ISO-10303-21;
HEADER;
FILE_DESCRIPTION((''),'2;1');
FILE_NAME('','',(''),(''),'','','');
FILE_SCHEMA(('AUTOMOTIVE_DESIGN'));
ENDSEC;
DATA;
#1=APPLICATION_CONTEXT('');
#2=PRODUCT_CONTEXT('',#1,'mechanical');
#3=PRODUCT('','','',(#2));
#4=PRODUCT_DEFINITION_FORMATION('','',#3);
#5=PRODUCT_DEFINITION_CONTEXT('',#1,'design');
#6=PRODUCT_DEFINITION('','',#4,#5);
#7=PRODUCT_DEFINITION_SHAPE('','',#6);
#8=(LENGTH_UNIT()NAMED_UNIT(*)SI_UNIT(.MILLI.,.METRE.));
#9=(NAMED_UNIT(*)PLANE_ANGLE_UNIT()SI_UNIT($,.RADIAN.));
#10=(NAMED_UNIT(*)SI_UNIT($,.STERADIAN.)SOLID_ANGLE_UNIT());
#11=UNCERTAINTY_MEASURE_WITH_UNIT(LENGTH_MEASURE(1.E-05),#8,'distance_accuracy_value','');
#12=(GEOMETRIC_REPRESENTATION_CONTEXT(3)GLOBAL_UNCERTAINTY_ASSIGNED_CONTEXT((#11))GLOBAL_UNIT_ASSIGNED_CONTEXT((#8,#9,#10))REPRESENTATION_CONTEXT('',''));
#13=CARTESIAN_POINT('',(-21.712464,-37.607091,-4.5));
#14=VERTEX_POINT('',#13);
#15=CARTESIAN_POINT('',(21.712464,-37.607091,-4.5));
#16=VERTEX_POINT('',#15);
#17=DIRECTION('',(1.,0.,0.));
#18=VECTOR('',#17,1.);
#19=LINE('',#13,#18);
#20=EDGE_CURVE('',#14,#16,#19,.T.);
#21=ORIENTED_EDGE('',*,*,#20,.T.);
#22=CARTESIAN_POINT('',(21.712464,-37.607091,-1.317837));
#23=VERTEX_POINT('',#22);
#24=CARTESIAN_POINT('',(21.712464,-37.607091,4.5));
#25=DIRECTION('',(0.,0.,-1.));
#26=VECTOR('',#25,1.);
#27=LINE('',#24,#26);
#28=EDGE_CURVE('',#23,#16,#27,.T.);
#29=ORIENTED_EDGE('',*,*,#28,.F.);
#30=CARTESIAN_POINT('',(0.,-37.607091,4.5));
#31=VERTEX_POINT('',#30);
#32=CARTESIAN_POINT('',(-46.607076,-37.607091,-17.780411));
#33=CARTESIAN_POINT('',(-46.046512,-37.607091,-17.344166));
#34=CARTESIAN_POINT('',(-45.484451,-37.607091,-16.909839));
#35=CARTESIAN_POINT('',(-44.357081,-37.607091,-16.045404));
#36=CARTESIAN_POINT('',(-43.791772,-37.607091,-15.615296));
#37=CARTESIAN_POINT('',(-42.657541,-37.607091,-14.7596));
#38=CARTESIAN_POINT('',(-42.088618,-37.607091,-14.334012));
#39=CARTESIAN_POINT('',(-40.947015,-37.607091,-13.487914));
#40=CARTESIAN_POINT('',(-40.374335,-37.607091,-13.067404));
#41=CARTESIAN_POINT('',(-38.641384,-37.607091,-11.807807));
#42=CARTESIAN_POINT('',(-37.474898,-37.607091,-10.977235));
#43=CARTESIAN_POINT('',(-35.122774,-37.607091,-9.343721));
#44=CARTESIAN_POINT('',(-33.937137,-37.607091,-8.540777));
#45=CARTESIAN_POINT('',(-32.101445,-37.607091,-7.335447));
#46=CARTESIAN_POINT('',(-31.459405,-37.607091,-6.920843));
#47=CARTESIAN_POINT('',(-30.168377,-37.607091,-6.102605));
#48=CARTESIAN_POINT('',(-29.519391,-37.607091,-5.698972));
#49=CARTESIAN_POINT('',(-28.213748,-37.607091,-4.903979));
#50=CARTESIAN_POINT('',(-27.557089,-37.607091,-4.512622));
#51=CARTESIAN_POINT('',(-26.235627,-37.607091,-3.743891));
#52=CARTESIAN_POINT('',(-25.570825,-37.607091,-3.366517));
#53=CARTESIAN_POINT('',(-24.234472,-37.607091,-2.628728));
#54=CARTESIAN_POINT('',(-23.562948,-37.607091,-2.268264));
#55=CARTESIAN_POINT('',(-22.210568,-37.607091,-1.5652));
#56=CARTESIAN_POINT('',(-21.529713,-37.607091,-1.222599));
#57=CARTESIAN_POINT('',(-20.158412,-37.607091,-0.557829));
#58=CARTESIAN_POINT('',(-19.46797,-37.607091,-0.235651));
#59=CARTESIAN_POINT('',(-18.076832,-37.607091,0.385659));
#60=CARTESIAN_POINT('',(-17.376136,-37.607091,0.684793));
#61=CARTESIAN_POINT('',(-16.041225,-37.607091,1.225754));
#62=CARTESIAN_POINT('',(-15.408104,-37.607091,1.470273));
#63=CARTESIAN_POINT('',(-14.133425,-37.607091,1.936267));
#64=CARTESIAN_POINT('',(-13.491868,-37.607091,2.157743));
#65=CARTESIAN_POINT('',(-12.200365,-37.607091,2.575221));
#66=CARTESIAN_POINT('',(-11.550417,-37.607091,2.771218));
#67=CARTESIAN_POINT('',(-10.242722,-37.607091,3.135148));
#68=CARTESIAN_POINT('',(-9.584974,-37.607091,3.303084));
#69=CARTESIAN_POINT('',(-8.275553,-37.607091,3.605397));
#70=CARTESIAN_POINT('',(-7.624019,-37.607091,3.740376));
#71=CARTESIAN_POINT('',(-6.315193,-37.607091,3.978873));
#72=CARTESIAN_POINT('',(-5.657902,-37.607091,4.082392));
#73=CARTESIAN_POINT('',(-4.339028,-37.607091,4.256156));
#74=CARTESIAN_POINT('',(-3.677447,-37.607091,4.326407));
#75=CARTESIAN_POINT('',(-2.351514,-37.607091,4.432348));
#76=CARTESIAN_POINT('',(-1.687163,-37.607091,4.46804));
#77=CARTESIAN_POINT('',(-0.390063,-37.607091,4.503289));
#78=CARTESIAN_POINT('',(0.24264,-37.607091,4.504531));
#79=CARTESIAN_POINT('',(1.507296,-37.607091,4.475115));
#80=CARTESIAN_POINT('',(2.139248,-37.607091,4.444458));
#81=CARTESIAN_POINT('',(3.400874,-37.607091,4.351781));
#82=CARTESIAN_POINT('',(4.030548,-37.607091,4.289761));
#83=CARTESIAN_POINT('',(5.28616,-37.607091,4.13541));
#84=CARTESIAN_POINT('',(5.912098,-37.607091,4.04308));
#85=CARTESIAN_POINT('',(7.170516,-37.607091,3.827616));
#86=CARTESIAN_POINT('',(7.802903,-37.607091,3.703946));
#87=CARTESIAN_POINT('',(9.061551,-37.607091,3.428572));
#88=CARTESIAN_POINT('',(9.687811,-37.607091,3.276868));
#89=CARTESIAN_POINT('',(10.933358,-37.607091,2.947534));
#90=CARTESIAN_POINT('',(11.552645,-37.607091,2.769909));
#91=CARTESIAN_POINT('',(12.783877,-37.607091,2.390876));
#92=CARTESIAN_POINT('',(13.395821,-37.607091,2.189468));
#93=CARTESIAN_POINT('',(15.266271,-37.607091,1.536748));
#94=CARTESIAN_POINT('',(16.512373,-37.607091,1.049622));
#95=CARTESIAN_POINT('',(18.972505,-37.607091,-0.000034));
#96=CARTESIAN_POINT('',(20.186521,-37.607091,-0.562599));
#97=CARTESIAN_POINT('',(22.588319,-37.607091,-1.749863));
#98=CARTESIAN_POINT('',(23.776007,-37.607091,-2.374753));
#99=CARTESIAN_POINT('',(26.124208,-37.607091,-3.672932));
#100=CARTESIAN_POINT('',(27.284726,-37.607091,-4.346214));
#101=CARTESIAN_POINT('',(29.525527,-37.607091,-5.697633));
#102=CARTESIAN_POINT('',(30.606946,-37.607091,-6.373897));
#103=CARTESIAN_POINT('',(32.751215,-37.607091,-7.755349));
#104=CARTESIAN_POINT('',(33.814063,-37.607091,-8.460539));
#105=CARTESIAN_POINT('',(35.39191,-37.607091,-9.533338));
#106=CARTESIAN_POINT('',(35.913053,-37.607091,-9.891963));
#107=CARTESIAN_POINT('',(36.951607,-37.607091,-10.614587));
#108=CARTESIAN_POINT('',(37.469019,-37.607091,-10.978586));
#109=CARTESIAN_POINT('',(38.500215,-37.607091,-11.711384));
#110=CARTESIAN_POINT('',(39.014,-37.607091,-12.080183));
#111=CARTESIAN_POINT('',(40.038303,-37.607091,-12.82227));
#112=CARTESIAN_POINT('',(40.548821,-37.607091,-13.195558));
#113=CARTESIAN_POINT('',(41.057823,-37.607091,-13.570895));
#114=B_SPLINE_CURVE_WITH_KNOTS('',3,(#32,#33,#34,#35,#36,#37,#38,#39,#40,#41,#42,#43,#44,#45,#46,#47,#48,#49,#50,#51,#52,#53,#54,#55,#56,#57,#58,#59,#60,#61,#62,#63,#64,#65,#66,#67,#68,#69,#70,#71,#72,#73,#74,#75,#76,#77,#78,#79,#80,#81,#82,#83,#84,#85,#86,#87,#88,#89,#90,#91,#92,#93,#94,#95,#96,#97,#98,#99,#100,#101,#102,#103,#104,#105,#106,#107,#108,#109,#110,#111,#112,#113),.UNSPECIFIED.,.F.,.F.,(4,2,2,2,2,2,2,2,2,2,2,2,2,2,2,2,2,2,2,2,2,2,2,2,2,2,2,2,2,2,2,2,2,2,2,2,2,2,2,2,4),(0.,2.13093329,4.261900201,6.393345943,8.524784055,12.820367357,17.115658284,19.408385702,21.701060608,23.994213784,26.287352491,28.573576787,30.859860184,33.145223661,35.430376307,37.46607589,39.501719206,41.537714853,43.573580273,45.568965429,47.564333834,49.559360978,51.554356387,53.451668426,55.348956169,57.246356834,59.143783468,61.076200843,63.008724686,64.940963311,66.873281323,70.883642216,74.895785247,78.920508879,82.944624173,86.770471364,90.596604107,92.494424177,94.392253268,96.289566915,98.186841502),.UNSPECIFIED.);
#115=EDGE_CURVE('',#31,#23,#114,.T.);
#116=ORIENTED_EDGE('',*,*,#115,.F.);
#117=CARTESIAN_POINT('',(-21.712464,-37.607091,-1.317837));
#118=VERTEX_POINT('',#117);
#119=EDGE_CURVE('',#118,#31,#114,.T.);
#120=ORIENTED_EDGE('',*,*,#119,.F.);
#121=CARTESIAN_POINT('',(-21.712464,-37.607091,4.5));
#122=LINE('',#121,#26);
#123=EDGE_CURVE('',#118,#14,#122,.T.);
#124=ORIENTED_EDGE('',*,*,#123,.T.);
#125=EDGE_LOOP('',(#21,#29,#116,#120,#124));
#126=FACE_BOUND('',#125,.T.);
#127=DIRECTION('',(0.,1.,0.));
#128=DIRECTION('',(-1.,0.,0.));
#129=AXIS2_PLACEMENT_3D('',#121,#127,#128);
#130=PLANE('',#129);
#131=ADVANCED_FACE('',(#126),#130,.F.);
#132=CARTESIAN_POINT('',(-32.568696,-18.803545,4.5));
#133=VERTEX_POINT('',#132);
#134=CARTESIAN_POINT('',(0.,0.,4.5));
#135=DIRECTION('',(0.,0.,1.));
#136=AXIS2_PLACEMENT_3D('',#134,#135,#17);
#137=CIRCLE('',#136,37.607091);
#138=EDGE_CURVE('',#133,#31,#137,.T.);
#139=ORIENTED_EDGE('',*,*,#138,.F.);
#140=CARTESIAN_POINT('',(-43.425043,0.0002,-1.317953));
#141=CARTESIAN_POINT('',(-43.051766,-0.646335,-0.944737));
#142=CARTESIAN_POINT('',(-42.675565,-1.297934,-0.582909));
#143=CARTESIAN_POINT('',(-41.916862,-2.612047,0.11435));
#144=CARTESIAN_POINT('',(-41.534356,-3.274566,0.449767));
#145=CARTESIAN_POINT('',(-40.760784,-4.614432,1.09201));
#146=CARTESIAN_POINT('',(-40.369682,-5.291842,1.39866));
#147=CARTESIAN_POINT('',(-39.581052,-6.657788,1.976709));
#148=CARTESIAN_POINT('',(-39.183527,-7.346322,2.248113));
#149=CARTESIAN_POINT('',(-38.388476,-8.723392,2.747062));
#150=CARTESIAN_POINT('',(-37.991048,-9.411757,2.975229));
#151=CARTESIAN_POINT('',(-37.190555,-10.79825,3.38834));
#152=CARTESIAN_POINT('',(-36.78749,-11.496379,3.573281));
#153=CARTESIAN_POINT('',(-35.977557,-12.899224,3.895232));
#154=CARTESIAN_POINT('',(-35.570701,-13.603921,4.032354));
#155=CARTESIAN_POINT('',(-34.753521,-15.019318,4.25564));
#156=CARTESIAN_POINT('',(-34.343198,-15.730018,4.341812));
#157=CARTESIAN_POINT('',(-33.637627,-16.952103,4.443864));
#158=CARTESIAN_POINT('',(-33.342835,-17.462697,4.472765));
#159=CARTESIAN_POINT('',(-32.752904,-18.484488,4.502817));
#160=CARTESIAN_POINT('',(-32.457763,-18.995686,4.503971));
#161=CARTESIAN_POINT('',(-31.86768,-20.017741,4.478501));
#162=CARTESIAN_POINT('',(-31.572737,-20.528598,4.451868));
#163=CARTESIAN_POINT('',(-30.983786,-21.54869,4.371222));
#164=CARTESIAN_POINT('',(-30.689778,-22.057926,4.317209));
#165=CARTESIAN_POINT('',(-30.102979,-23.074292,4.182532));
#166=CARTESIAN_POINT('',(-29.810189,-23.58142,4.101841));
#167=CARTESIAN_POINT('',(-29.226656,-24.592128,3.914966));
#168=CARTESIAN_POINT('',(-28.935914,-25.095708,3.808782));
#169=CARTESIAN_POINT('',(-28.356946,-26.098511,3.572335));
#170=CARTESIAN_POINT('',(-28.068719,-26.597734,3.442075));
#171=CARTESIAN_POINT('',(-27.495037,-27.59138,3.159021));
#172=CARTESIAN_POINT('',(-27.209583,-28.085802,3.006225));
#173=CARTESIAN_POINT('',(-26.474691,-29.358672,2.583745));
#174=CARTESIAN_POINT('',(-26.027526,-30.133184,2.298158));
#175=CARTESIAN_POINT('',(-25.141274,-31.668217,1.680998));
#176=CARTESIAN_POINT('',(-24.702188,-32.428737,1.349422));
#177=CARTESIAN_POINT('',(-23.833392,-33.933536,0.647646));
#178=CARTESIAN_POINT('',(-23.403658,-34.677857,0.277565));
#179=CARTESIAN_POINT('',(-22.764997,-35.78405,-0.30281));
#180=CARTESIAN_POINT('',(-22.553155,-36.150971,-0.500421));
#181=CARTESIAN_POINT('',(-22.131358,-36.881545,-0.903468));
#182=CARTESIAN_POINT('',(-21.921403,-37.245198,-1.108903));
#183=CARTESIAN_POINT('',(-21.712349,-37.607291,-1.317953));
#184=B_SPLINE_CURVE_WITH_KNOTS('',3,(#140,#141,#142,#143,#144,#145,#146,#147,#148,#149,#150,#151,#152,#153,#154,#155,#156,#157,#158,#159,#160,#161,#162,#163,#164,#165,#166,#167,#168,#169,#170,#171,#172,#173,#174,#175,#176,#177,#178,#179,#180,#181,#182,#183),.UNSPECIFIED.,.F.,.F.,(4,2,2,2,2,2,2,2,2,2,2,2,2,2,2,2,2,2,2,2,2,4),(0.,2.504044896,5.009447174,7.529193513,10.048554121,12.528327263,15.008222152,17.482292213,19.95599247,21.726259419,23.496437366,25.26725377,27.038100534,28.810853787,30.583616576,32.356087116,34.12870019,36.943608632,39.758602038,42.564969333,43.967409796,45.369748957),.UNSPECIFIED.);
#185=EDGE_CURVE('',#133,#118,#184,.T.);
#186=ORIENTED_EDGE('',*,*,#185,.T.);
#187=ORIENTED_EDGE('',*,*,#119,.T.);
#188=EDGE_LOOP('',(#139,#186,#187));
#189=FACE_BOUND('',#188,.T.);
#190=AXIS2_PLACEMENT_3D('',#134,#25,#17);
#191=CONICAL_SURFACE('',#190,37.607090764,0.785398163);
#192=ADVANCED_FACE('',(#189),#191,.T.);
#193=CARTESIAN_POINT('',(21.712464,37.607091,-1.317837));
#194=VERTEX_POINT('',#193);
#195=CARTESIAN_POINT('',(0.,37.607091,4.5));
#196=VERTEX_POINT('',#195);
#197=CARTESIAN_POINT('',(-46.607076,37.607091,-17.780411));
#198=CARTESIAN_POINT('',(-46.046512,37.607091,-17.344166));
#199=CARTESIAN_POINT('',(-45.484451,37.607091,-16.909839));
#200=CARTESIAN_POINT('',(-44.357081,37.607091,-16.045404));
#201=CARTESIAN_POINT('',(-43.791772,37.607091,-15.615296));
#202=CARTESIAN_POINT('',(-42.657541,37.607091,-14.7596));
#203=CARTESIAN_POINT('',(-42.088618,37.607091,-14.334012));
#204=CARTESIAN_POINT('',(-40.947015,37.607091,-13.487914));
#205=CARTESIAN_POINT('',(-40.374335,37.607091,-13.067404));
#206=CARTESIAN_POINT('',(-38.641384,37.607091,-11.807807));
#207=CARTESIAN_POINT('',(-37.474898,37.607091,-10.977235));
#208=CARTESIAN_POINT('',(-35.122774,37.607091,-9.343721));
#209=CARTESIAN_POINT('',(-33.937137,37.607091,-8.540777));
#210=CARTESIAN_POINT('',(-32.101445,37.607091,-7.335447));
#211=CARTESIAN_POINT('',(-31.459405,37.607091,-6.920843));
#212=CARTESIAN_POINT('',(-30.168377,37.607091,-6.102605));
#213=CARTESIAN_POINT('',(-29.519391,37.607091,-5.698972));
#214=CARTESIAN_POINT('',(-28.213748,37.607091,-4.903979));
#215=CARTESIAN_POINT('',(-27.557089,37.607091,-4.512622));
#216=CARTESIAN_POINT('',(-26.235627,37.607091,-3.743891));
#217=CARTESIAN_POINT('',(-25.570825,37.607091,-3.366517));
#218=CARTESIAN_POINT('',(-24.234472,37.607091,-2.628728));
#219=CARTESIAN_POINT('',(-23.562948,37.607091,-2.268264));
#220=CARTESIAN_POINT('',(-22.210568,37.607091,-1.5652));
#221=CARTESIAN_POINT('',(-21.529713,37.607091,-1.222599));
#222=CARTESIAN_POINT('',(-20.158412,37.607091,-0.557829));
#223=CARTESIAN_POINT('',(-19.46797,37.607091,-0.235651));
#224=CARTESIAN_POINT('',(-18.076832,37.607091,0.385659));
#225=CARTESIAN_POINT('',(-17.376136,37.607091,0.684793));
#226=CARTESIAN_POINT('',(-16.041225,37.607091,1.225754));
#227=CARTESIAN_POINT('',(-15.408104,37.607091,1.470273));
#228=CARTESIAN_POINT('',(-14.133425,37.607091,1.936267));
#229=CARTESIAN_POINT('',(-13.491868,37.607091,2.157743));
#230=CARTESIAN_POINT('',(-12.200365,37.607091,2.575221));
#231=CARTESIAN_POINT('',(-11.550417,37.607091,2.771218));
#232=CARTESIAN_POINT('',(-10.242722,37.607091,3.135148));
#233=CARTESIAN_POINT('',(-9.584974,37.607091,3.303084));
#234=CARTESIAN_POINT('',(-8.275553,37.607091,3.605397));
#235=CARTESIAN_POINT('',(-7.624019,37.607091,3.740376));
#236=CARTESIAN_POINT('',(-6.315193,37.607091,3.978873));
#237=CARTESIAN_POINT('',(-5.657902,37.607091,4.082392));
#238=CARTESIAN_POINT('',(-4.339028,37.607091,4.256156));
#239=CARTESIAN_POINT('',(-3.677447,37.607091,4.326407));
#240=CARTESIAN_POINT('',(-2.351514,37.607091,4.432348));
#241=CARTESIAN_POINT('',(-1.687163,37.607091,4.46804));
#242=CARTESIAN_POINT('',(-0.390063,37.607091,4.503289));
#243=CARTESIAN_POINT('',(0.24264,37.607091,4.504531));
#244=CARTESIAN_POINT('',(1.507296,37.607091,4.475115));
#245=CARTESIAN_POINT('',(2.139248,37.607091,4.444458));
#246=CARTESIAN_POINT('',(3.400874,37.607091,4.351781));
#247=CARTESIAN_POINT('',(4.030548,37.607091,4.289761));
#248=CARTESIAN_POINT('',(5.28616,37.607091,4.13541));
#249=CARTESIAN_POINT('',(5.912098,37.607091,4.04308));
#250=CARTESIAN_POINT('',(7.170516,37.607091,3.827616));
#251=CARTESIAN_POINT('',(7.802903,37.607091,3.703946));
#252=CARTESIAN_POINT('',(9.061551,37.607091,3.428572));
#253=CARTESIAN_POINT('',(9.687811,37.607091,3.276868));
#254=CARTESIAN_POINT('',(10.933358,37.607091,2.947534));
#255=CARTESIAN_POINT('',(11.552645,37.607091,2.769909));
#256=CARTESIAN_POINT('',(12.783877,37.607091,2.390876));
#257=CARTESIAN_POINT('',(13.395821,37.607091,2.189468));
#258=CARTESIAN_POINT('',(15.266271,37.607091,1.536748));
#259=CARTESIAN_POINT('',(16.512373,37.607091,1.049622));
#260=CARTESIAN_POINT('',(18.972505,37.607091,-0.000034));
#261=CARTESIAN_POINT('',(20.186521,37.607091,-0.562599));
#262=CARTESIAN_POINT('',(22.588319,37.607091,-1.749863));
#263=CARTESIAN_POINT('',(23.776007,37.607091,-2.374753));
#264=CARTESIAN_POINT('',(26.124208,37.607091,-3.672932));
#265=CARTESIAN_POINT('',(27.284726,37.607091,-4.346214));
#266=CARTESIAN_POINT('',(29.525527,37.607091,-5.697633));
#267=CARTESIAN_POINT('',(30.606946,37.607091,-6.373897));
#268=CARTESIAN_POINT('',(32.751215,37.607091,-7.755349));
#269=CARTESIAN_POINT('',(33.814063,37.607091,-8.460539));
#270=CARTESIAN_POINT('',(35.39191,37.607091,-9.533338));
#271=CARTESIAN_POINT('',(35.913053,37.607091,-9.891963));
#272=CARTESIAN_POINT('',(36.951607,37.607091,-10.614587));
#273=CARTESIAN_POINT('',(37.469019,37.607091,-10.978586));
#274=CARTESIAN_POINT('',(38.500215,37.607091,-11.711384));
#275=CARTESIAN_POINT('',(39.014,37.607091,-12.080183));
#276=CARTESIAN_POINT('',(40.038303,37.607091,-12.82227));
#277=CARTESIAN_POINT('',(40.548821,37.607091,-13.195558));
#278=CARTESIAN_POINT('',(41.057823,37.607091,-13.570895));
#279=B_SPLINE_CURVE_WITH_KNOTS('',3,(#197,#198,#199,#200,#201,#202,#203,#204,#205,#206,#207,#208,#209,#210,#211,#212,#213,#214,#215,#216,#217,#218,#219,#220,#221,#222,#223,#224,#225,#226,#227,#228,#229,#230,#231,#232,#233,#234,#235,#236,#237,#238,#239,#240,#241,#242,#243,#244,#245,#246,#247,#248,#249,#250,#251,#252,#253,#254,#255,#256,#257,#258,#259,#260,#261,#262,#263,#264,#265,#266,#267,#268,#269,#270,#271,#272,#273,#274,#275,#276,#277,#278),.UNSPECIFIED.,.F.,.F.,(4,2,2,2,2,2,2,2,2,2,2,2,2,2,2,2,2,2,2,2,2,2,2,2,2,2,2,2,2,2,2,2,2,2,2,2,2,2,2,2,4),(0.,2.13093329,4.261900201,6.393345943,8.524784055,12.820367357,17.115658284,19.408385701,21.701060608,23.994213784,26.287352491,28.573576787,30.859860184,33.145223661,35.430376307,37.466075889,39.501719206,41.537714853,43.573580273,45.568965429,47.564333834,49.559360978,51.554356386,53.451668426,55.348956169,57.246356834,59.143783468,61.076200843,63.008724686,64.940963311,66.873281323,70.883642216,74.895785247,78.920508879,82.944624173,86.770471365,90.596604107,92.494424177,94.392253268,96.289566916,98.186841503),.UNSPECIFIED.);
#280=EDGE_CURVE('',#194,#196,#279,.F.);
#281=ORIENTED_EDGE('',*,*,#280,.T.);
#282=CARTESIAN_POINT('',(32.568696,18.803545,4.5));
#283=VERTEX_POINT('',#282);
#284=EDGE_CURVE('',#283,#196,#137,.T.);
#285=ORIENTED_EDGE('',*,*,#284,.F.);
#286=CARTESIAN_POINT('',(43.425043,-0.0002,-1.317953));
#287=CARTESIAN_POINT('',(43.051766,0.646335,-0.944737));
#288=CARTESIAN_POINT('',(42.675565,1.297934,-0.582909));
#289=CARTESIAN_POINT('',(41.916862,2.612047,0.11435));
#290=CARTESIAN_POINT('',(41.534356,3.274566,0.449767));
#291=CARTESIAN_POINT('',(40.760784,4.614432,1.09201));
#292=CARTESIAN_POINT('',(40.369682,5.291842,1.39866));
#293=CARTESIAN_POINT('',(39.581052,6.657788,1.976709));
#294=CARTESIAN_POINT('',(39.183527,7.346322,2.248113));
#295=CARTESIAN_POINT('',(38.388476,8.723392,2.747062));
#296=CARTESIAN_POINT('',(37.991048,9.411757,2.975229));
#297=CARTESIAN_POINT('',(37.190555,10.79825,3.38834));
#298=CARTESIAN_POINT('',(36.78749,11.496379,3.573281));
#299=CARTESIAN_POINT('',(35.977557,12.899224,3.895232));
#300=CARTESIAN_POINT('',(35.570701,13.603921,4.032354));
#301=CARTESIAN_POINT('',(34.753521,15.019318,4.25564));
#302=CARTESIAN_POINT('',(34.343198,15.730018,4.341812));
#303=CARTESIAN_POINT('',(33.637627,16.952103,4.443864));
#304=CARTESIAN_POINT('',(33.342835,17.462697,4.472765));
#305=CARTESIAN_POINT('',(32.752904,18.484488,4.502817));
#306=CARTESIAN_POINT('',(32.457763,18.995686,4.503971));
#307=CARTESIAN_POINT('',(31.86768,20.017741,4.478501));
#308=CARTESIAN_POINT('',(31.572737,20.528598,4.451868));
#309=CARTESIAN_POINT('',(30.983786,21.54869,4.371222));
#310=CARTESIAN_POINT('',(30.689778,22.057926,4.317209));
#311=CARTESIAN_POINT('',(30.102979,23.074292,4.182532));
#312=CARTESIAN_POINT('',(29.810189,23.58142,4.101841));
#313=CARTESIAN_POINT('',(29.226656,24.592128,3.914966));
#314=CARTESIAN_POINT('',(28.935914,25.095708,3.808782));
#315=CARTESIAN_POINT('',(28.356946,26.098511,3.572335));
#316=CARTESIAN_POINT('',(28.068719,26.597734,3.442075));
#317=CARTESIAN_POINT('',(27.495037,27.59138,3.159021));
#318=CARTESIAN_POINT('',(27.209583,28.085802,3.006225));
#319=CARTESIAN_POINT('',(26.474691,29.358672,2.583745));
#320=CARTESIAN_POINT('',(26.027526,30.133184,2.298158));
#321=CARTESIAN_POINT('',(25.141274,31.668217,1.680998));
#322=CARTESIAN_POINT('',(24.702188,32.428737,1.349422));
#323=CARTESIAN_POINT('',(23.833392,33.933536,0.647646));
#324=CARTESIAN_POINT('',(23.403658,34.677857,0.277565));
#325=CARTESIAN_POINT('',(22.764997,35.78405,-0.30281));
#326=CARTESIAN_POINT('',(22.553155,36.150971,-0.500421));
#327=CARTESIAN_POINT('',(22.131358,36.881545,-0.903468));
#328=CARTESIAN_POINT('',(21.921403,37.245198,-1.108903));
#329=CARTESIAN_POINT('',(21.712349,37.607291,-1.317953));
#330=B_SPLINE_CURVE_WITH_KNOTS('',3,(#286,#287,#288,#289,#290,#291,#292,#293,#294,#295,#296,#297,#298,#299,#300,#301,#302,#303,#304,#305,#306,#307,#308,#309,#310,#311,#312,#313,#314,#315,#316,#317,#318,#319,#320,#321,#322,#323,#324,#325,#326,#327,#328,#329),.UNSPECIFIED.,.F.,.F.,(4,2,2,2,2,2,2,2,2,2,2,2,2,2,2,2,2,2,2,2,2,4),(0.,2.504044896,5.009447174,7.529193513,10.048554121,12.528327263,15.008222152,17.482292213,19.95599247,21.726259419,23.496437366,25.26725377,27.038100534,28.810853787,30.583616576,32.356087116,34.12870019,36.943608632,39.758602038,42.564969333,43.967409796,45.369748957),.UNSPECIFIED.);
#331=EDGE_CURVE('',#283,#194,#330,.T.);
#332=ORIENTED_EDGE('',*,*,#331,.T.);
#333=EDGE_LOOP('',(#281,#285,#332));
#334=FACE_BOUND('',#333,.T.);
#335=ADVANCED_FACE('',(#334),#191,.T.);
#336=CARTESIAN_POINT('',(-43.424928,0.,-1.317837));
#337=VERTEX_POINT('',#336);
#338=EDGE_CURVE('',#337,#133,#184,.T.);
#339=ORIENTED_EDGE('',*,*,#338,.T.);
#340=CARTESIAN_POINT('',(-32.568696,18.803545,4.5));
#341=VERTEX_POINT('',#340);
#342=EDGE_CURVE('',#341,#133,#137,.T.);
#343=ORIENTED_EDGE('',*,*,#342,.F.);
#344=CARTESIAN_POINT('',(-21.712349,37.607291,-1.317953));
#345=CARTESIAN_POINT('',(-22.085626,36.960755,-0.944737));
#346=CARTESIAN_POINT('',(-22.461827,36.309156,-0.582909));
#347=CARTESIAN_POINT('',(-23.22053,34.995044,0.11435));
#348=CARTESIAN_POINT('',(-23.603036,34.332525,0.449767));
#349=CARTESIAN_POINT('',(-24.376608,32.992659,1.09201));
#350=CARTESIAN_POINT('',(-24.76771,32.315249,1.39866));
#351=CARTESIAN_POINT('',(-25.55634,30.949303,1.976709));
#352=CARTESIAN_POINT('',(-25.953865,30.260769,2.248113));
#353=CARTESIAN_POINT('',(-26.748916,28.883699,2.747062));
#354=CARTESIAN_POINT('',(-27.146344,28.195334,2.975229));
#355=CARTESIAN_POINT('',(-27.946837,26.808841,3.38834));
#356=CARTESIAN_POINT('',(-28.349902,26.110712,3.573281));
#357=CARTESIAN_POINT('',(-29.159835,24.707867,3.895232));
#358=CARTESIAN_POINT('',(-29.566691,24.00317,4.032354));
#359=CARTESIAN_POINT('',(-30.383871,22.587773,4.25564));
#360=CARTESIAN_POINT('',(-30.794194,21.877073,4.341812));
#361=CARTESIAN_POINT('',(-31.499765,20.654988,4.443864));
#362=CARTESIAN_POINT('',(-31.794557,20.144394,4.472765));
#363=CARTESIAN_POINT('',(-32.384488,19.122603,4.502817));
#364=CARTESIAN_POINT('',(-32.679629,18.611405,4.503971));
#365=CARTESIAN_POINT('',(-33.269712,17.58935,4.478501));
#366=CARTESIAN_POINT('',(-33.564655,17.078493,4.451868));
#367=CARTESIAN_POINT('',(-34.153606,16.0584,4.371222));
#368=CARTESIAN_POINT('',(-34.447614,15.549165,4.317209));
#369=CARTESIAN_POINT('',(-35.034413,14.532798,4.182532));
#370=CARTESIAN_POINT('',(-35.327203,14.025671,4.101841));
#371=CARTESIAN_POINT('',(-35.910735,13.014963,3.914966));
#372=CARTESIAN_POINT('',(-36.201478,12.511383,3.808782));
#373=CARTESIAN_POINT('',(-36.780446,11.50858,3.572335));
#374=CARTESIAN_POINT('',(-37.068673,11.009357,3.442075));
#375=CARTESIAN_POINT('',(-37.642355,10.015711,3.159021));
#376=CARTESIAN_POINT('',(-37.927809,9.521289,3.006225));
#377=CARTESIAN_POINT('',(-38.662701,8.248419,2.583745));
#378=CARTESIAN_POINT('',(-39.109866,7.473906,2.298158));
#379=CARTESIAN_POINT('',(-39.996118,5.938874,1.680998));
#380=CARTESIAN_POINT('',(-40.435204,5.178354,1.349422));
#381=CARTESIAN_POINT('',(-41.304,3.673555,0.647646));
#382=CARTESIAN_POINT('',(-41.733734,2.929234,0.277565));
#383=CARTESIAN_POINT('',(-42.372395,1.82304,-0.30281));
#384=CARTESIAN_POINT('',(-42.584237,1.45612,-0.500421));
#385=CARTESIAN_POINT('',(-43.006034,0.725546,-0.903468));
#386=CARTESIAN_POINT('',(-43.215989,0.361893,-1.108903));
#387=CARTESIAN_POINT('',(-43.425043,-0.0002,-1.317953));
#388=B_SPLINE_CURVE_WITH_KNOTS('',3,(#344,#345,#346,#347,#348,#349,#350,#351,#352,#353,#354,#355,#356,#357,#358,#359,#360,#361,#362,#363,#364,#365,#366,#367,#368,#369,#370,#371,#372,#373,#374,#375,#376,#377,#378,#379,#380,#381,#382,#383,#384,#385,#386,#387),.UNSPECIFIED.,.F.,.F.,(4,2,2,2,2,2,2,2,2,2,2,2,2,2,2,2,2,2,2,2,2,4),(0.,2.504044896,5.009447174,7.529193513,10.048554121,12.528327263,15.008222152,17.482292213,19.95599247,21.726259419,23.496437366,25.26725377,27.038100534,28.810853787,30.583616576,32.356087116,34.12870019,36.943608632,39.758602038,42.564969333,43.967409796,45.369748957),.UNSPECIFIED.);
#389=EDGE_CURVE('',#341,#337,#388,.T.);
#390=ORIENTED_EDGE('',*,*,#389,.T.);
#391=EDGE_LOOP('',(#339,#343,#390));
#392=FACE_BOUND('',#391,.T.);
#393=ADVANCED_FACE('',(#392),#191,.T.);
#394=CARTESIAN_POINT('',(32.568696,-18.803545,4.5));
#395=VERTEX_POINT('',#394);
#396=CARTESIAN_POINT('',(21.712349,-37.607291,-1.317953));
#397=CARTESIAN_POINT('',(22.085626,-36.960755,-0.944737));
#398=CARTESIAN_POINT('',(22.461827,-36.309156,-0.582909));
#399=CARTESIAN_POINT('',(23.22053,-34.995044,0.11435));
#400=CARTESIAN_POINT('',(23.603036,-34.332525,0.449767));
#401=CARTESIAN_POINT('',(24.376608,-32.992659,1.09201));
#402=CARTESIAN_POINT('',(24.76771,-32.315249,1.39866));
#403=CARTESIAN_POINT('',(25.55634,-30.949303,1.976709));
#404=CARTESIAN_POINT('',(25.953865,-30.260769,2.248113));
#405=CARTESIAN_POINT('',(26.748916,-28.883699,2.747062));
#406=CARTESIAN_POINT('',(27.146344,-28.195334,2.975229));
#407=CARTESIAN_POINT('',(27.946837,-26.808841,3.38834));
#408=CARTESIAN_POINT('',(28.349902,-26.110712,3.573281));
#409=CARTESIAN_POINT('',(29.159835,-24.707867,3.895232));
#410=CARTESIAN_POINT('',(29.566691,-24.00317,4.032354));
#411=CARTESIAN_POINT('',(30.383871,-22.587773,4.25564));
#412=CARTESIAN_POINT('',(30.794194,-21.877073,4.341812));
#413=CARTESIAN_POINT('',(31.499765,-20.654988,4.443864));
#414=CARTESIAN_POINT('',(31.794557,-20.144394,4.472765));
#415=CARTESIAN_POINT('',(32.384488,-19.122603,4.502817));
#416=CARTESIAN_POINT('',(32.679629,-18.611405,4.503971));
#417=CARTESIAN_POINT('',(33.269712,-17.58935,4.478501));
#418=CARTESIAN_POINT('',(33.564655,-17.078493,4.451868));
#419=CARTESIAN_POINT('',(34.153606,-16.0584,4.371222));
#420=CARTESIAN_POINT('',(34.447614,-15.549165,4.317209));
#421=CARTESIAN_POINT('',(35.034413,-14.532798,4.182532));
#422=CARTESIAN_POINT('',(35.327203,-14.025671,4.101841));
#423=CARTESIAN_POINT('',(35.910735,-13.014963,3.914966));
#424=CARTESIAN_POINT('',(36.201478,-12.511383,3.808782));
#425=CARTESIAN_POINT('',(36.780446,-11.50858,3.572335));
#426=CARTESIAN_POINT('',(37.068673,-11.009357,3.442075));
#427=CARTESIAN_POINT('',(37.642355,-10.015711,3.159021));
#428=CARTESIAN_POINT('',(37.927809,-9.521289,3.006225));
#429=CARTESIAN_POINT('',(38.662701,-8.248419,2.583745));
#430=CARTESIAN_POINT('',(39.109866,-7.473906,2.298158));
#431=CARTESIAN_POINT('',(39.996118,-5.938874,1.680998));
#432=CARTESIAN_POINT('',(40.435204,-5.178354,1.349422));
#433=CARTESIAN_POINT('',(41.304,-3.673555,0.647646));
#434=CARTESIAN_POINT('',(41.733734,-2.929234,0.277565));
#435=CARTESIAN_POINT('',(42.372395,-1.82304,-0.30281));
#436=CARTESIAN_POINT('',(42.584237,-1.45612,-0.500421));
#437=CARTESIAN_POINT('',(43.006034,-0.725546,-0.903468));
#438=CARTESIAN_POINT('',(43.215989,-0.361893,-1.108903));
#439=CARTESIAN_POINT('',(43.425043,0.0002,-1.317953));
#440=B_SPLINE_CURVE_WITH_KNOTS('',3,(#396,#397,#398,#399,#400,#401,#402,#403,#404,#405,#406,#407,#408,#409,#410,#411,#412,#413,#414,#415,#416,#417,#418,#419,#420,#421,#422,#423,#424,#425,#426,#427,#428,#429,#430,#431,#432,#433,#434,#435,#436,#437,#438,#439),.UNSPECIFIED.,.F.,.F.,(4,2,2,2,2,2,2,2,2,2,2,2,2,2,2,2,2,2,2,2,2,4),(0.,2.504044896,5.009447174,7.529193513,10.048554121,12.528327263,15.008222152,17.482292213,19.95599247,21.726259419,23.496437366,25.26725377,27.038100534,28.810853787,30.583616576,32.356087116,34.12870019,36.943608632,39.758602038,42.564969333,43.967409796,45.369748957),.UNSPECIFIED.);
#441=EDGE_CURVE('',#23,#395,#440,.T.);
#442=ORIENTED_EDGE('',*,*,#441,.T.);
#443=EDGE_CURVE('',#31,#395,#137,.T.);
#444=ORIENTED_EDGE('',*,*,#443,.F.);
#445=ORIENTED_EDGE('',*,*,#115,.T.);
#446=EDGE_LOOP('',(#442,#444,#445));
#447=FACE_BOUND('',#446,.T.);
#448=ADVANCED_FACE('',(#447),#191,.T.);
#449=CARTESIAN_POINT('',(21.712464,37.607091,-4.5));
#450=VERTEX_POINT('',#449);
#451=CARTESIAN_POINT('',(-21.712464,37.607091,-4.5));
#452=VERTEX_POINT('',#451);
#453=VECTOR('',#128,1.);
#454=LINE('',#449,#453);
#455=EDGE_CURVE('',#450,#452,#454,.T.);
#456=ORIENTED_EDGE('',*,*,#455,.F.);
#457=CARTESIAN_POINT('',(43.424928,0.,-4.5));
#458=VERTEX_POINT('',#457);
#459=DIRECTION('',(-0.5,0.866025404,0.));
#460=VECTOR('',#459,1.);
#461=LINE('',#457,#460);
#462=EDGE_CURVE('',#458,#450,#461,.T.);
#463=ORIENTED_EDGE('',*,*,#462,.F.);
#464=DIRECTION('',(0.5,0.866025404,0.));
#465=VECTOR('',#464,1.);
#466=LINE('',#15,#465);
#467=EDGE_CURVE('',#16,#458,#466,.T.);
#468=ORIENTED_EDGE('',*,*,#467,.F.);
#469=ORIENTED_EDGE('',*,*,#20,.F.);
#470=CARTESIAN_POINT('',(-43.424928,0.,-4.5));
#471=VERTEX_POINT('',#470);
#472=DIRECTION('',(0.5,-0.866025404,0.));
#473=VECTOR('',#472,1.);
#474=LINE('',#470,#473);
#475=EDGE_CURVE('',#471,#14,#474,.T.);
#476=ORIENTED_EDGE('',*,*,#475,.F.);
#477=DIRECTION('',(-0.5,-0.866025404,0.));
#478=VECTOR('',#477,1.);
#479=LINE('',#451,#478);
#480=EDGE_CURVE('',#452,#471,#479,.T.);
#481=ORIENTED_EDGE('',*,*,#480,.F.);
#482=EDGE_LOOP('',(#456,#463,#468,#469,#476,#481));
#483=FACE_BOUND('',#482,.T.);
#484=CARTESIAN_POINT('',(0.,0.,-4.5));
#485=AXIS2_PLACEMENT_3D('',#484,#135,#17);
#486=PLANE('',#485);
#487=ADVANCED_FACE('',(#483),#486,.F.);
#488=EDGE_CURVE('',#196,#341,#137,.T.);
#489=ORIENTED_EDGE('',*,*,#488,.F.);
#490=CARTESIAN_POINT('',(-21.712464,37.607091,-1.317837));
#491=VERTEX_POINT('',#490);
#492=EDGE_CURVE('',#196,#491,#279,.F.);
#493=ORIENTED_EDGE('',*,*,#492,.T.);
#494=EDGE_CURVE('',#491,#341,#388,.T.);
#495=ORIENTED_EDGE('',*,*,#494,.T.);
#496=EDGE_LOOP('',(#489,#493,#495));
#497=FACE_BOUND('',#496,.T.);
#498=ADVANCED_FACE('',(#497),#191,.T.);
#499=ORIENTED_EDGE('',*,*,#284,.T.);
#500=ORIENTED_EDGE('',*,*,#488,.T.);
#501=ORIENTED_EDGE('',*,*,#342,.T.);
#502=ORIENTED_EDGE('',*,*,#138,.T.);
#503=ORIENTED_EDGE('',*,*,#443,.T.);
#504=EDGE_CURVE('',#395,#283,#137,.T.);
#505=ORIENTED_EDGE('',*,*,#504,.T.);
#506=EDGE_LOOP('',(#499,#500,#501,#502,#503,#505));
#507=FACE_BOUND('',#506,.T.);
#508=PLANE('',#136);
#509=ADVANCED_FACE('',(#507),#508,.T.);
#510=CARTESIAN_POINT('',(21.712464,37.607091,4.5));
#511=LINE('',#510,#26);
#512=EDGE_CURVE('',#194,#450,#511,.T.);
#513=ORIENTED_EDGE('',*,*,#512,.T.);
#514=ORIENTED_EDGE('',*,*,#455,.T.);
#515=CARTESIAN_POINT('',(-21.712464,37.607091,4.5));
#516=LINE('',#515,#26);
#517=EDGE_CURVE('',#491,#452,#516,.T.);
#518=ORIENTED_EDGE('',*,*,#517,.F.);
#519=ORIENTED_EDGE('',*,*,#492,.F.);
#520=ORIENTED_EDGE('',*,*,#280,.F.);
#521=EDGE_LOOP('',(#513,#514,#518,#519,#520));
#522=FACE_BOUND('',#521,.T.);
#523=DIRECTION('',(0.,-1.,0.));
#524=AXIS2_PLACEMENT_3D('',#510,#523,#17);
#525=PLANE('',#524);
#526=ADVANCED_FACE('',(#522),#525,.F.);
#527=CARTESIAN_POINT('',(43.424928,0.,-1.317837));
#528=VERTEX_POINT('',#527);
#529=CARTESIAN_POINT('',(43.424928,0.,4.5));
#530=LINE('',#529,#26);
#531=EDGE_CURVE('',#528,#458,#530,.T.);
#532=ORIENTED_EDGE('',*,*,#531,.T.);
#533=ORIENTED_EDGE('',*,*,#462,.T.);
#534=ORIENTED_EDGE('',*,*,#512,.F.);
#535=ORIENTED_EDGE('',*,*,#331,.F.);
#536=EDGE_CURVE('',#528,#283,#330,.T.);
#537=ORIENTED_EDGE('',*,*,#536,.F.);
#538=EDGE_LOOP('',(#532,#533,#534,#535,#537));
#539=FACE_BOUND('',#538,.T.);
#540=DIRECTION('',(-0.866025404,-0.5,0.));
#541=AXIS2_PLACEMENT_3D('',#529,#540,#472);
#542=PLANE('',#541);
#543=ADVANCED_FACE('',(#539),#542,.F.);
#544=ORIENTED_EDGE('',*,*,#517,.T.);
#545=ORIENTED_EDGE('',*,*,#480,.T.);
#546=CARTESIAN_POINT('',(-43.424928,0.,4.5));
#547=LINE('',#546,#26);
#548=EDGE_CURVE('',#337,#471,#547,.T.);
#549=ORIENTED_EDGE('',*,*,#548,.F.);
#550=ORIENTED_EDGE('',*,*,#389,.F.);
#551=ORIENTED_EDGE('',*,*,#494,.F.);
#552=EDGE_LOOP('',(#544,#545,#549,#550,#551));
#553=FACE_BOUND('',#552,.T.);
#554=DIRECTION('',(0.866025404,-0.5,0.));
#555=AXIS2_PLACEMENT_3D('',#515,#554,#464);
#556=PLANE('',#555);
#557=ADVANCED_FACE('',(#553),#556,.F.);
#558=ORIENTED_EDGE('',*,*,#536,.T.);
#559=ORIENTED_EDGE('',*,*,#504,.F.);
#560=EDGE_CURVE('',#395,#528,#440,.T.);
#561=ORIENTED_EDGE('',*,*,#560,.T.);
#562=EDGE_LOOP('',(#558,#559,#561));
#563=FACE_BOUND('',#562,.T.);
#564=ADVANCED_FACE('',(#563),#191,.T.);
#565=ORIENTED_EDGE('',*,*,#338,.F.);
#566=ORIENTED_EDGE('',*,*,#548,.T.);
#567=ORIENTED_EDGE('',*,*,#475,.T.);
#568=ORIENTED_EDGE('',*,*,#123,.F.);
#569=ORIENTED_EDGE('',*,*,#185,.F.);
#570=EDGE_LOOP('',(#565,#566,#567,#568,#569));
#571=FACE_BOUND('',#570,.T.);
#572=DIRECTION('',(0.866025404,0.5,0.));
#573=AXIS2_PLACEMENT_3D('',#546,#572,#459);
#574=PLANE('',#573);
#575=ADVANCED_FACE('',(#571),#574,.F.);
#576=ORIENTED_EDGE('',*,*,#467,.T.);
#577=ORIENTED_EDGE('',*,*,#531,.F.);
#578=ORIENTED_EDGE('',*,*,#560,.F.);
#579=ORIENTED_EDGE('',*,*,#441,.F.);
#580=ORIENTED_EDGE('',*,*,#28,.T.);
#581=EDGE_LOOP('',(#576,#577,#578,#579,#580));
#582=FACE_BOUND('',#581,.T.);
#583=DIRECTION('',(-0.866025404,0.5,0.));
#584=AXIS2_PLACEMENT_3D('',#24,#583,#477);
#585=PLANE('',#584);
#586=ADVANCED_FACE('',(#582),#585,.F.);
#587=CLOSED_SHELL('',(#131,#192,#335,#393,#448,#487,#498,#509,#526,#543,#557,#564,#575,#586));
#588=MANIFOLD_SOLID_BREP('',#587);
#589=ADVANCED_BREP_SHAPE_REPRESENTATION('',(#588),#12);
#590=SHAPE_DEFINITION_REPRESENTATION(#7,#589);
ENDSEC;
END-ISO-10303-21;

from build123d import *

# Parameters (mm, degrees)
BOSS_EXTRUDE1_DEPTH = 4.5
SKETCH2_OUTSIDE_W   = 230.192
SKETCH2_OUTSIDE_H   = 218.556
SKETCH2_OUTSIDE_R   = 37.607090764
CUT_EXTRUDE1_DEPTH  = 59.146518755
CUT_EXTRUDE1_DRAFT  = -45


with BuildPart() as part:
    # Sketch1 → Boss-Extrude1 (new, symmetric)
    with BuildSketch(Plane.XY):
        Polygon((21.712463976, -37.607090764), (43.424927952, 0), (21.712463976, 37.607090764), (-21.712463976, 37.607090764), (-43.424927952, 0), (-21.712463976, -37.607090764), align=None)
    extrude(amount=BOSS_EXTRUDE1_DEPTH, both=True)


with BuildPart() as cut_extrude1_tool:
    # Sketch2 outside → Cut-Extrude1 (with draft: the straight prism first)
    with BuildSketch(Plane.XY.offset(4.5)):
        Rectangle(SKETCH2_OUTSIDE_W, SKETCH2_OUTSIDE_H)
        Circle(SKETCH2_OUTSIDE_R, mode=Mode.SUBTRACT)
    extrude(amount=-CUT_EXTRUDE1_DEPTH)
    # Cut-Extrude1: the draft: its side faces are tilted about the plane it starts from
    cut_extrude1_sides = [cut_extrude1_tool.faces().sort_by_distance(p)[0] for p in [
        (0, -109.278, -25.073259378),
        (115.096, 0, -25.073259378),
        (0, 109.278, -25.073259378),
        (-115.096, 0, -25.073259378),
        (-37.607090764, 0, -25.073259378),
    ]]
    draft(cut_extrude1_sides, Plane.XY.offset(4.5), CUT_EXTRUDE1_DRAFT)


with BuildPart() as part_1:
    add(part.part)

    # Cut-Extrude1: cut by cut_extrude1_tool
    add(cut_extrude1_tool.part, mode=Mode.SUBTRACT)


solid = part_1.part
